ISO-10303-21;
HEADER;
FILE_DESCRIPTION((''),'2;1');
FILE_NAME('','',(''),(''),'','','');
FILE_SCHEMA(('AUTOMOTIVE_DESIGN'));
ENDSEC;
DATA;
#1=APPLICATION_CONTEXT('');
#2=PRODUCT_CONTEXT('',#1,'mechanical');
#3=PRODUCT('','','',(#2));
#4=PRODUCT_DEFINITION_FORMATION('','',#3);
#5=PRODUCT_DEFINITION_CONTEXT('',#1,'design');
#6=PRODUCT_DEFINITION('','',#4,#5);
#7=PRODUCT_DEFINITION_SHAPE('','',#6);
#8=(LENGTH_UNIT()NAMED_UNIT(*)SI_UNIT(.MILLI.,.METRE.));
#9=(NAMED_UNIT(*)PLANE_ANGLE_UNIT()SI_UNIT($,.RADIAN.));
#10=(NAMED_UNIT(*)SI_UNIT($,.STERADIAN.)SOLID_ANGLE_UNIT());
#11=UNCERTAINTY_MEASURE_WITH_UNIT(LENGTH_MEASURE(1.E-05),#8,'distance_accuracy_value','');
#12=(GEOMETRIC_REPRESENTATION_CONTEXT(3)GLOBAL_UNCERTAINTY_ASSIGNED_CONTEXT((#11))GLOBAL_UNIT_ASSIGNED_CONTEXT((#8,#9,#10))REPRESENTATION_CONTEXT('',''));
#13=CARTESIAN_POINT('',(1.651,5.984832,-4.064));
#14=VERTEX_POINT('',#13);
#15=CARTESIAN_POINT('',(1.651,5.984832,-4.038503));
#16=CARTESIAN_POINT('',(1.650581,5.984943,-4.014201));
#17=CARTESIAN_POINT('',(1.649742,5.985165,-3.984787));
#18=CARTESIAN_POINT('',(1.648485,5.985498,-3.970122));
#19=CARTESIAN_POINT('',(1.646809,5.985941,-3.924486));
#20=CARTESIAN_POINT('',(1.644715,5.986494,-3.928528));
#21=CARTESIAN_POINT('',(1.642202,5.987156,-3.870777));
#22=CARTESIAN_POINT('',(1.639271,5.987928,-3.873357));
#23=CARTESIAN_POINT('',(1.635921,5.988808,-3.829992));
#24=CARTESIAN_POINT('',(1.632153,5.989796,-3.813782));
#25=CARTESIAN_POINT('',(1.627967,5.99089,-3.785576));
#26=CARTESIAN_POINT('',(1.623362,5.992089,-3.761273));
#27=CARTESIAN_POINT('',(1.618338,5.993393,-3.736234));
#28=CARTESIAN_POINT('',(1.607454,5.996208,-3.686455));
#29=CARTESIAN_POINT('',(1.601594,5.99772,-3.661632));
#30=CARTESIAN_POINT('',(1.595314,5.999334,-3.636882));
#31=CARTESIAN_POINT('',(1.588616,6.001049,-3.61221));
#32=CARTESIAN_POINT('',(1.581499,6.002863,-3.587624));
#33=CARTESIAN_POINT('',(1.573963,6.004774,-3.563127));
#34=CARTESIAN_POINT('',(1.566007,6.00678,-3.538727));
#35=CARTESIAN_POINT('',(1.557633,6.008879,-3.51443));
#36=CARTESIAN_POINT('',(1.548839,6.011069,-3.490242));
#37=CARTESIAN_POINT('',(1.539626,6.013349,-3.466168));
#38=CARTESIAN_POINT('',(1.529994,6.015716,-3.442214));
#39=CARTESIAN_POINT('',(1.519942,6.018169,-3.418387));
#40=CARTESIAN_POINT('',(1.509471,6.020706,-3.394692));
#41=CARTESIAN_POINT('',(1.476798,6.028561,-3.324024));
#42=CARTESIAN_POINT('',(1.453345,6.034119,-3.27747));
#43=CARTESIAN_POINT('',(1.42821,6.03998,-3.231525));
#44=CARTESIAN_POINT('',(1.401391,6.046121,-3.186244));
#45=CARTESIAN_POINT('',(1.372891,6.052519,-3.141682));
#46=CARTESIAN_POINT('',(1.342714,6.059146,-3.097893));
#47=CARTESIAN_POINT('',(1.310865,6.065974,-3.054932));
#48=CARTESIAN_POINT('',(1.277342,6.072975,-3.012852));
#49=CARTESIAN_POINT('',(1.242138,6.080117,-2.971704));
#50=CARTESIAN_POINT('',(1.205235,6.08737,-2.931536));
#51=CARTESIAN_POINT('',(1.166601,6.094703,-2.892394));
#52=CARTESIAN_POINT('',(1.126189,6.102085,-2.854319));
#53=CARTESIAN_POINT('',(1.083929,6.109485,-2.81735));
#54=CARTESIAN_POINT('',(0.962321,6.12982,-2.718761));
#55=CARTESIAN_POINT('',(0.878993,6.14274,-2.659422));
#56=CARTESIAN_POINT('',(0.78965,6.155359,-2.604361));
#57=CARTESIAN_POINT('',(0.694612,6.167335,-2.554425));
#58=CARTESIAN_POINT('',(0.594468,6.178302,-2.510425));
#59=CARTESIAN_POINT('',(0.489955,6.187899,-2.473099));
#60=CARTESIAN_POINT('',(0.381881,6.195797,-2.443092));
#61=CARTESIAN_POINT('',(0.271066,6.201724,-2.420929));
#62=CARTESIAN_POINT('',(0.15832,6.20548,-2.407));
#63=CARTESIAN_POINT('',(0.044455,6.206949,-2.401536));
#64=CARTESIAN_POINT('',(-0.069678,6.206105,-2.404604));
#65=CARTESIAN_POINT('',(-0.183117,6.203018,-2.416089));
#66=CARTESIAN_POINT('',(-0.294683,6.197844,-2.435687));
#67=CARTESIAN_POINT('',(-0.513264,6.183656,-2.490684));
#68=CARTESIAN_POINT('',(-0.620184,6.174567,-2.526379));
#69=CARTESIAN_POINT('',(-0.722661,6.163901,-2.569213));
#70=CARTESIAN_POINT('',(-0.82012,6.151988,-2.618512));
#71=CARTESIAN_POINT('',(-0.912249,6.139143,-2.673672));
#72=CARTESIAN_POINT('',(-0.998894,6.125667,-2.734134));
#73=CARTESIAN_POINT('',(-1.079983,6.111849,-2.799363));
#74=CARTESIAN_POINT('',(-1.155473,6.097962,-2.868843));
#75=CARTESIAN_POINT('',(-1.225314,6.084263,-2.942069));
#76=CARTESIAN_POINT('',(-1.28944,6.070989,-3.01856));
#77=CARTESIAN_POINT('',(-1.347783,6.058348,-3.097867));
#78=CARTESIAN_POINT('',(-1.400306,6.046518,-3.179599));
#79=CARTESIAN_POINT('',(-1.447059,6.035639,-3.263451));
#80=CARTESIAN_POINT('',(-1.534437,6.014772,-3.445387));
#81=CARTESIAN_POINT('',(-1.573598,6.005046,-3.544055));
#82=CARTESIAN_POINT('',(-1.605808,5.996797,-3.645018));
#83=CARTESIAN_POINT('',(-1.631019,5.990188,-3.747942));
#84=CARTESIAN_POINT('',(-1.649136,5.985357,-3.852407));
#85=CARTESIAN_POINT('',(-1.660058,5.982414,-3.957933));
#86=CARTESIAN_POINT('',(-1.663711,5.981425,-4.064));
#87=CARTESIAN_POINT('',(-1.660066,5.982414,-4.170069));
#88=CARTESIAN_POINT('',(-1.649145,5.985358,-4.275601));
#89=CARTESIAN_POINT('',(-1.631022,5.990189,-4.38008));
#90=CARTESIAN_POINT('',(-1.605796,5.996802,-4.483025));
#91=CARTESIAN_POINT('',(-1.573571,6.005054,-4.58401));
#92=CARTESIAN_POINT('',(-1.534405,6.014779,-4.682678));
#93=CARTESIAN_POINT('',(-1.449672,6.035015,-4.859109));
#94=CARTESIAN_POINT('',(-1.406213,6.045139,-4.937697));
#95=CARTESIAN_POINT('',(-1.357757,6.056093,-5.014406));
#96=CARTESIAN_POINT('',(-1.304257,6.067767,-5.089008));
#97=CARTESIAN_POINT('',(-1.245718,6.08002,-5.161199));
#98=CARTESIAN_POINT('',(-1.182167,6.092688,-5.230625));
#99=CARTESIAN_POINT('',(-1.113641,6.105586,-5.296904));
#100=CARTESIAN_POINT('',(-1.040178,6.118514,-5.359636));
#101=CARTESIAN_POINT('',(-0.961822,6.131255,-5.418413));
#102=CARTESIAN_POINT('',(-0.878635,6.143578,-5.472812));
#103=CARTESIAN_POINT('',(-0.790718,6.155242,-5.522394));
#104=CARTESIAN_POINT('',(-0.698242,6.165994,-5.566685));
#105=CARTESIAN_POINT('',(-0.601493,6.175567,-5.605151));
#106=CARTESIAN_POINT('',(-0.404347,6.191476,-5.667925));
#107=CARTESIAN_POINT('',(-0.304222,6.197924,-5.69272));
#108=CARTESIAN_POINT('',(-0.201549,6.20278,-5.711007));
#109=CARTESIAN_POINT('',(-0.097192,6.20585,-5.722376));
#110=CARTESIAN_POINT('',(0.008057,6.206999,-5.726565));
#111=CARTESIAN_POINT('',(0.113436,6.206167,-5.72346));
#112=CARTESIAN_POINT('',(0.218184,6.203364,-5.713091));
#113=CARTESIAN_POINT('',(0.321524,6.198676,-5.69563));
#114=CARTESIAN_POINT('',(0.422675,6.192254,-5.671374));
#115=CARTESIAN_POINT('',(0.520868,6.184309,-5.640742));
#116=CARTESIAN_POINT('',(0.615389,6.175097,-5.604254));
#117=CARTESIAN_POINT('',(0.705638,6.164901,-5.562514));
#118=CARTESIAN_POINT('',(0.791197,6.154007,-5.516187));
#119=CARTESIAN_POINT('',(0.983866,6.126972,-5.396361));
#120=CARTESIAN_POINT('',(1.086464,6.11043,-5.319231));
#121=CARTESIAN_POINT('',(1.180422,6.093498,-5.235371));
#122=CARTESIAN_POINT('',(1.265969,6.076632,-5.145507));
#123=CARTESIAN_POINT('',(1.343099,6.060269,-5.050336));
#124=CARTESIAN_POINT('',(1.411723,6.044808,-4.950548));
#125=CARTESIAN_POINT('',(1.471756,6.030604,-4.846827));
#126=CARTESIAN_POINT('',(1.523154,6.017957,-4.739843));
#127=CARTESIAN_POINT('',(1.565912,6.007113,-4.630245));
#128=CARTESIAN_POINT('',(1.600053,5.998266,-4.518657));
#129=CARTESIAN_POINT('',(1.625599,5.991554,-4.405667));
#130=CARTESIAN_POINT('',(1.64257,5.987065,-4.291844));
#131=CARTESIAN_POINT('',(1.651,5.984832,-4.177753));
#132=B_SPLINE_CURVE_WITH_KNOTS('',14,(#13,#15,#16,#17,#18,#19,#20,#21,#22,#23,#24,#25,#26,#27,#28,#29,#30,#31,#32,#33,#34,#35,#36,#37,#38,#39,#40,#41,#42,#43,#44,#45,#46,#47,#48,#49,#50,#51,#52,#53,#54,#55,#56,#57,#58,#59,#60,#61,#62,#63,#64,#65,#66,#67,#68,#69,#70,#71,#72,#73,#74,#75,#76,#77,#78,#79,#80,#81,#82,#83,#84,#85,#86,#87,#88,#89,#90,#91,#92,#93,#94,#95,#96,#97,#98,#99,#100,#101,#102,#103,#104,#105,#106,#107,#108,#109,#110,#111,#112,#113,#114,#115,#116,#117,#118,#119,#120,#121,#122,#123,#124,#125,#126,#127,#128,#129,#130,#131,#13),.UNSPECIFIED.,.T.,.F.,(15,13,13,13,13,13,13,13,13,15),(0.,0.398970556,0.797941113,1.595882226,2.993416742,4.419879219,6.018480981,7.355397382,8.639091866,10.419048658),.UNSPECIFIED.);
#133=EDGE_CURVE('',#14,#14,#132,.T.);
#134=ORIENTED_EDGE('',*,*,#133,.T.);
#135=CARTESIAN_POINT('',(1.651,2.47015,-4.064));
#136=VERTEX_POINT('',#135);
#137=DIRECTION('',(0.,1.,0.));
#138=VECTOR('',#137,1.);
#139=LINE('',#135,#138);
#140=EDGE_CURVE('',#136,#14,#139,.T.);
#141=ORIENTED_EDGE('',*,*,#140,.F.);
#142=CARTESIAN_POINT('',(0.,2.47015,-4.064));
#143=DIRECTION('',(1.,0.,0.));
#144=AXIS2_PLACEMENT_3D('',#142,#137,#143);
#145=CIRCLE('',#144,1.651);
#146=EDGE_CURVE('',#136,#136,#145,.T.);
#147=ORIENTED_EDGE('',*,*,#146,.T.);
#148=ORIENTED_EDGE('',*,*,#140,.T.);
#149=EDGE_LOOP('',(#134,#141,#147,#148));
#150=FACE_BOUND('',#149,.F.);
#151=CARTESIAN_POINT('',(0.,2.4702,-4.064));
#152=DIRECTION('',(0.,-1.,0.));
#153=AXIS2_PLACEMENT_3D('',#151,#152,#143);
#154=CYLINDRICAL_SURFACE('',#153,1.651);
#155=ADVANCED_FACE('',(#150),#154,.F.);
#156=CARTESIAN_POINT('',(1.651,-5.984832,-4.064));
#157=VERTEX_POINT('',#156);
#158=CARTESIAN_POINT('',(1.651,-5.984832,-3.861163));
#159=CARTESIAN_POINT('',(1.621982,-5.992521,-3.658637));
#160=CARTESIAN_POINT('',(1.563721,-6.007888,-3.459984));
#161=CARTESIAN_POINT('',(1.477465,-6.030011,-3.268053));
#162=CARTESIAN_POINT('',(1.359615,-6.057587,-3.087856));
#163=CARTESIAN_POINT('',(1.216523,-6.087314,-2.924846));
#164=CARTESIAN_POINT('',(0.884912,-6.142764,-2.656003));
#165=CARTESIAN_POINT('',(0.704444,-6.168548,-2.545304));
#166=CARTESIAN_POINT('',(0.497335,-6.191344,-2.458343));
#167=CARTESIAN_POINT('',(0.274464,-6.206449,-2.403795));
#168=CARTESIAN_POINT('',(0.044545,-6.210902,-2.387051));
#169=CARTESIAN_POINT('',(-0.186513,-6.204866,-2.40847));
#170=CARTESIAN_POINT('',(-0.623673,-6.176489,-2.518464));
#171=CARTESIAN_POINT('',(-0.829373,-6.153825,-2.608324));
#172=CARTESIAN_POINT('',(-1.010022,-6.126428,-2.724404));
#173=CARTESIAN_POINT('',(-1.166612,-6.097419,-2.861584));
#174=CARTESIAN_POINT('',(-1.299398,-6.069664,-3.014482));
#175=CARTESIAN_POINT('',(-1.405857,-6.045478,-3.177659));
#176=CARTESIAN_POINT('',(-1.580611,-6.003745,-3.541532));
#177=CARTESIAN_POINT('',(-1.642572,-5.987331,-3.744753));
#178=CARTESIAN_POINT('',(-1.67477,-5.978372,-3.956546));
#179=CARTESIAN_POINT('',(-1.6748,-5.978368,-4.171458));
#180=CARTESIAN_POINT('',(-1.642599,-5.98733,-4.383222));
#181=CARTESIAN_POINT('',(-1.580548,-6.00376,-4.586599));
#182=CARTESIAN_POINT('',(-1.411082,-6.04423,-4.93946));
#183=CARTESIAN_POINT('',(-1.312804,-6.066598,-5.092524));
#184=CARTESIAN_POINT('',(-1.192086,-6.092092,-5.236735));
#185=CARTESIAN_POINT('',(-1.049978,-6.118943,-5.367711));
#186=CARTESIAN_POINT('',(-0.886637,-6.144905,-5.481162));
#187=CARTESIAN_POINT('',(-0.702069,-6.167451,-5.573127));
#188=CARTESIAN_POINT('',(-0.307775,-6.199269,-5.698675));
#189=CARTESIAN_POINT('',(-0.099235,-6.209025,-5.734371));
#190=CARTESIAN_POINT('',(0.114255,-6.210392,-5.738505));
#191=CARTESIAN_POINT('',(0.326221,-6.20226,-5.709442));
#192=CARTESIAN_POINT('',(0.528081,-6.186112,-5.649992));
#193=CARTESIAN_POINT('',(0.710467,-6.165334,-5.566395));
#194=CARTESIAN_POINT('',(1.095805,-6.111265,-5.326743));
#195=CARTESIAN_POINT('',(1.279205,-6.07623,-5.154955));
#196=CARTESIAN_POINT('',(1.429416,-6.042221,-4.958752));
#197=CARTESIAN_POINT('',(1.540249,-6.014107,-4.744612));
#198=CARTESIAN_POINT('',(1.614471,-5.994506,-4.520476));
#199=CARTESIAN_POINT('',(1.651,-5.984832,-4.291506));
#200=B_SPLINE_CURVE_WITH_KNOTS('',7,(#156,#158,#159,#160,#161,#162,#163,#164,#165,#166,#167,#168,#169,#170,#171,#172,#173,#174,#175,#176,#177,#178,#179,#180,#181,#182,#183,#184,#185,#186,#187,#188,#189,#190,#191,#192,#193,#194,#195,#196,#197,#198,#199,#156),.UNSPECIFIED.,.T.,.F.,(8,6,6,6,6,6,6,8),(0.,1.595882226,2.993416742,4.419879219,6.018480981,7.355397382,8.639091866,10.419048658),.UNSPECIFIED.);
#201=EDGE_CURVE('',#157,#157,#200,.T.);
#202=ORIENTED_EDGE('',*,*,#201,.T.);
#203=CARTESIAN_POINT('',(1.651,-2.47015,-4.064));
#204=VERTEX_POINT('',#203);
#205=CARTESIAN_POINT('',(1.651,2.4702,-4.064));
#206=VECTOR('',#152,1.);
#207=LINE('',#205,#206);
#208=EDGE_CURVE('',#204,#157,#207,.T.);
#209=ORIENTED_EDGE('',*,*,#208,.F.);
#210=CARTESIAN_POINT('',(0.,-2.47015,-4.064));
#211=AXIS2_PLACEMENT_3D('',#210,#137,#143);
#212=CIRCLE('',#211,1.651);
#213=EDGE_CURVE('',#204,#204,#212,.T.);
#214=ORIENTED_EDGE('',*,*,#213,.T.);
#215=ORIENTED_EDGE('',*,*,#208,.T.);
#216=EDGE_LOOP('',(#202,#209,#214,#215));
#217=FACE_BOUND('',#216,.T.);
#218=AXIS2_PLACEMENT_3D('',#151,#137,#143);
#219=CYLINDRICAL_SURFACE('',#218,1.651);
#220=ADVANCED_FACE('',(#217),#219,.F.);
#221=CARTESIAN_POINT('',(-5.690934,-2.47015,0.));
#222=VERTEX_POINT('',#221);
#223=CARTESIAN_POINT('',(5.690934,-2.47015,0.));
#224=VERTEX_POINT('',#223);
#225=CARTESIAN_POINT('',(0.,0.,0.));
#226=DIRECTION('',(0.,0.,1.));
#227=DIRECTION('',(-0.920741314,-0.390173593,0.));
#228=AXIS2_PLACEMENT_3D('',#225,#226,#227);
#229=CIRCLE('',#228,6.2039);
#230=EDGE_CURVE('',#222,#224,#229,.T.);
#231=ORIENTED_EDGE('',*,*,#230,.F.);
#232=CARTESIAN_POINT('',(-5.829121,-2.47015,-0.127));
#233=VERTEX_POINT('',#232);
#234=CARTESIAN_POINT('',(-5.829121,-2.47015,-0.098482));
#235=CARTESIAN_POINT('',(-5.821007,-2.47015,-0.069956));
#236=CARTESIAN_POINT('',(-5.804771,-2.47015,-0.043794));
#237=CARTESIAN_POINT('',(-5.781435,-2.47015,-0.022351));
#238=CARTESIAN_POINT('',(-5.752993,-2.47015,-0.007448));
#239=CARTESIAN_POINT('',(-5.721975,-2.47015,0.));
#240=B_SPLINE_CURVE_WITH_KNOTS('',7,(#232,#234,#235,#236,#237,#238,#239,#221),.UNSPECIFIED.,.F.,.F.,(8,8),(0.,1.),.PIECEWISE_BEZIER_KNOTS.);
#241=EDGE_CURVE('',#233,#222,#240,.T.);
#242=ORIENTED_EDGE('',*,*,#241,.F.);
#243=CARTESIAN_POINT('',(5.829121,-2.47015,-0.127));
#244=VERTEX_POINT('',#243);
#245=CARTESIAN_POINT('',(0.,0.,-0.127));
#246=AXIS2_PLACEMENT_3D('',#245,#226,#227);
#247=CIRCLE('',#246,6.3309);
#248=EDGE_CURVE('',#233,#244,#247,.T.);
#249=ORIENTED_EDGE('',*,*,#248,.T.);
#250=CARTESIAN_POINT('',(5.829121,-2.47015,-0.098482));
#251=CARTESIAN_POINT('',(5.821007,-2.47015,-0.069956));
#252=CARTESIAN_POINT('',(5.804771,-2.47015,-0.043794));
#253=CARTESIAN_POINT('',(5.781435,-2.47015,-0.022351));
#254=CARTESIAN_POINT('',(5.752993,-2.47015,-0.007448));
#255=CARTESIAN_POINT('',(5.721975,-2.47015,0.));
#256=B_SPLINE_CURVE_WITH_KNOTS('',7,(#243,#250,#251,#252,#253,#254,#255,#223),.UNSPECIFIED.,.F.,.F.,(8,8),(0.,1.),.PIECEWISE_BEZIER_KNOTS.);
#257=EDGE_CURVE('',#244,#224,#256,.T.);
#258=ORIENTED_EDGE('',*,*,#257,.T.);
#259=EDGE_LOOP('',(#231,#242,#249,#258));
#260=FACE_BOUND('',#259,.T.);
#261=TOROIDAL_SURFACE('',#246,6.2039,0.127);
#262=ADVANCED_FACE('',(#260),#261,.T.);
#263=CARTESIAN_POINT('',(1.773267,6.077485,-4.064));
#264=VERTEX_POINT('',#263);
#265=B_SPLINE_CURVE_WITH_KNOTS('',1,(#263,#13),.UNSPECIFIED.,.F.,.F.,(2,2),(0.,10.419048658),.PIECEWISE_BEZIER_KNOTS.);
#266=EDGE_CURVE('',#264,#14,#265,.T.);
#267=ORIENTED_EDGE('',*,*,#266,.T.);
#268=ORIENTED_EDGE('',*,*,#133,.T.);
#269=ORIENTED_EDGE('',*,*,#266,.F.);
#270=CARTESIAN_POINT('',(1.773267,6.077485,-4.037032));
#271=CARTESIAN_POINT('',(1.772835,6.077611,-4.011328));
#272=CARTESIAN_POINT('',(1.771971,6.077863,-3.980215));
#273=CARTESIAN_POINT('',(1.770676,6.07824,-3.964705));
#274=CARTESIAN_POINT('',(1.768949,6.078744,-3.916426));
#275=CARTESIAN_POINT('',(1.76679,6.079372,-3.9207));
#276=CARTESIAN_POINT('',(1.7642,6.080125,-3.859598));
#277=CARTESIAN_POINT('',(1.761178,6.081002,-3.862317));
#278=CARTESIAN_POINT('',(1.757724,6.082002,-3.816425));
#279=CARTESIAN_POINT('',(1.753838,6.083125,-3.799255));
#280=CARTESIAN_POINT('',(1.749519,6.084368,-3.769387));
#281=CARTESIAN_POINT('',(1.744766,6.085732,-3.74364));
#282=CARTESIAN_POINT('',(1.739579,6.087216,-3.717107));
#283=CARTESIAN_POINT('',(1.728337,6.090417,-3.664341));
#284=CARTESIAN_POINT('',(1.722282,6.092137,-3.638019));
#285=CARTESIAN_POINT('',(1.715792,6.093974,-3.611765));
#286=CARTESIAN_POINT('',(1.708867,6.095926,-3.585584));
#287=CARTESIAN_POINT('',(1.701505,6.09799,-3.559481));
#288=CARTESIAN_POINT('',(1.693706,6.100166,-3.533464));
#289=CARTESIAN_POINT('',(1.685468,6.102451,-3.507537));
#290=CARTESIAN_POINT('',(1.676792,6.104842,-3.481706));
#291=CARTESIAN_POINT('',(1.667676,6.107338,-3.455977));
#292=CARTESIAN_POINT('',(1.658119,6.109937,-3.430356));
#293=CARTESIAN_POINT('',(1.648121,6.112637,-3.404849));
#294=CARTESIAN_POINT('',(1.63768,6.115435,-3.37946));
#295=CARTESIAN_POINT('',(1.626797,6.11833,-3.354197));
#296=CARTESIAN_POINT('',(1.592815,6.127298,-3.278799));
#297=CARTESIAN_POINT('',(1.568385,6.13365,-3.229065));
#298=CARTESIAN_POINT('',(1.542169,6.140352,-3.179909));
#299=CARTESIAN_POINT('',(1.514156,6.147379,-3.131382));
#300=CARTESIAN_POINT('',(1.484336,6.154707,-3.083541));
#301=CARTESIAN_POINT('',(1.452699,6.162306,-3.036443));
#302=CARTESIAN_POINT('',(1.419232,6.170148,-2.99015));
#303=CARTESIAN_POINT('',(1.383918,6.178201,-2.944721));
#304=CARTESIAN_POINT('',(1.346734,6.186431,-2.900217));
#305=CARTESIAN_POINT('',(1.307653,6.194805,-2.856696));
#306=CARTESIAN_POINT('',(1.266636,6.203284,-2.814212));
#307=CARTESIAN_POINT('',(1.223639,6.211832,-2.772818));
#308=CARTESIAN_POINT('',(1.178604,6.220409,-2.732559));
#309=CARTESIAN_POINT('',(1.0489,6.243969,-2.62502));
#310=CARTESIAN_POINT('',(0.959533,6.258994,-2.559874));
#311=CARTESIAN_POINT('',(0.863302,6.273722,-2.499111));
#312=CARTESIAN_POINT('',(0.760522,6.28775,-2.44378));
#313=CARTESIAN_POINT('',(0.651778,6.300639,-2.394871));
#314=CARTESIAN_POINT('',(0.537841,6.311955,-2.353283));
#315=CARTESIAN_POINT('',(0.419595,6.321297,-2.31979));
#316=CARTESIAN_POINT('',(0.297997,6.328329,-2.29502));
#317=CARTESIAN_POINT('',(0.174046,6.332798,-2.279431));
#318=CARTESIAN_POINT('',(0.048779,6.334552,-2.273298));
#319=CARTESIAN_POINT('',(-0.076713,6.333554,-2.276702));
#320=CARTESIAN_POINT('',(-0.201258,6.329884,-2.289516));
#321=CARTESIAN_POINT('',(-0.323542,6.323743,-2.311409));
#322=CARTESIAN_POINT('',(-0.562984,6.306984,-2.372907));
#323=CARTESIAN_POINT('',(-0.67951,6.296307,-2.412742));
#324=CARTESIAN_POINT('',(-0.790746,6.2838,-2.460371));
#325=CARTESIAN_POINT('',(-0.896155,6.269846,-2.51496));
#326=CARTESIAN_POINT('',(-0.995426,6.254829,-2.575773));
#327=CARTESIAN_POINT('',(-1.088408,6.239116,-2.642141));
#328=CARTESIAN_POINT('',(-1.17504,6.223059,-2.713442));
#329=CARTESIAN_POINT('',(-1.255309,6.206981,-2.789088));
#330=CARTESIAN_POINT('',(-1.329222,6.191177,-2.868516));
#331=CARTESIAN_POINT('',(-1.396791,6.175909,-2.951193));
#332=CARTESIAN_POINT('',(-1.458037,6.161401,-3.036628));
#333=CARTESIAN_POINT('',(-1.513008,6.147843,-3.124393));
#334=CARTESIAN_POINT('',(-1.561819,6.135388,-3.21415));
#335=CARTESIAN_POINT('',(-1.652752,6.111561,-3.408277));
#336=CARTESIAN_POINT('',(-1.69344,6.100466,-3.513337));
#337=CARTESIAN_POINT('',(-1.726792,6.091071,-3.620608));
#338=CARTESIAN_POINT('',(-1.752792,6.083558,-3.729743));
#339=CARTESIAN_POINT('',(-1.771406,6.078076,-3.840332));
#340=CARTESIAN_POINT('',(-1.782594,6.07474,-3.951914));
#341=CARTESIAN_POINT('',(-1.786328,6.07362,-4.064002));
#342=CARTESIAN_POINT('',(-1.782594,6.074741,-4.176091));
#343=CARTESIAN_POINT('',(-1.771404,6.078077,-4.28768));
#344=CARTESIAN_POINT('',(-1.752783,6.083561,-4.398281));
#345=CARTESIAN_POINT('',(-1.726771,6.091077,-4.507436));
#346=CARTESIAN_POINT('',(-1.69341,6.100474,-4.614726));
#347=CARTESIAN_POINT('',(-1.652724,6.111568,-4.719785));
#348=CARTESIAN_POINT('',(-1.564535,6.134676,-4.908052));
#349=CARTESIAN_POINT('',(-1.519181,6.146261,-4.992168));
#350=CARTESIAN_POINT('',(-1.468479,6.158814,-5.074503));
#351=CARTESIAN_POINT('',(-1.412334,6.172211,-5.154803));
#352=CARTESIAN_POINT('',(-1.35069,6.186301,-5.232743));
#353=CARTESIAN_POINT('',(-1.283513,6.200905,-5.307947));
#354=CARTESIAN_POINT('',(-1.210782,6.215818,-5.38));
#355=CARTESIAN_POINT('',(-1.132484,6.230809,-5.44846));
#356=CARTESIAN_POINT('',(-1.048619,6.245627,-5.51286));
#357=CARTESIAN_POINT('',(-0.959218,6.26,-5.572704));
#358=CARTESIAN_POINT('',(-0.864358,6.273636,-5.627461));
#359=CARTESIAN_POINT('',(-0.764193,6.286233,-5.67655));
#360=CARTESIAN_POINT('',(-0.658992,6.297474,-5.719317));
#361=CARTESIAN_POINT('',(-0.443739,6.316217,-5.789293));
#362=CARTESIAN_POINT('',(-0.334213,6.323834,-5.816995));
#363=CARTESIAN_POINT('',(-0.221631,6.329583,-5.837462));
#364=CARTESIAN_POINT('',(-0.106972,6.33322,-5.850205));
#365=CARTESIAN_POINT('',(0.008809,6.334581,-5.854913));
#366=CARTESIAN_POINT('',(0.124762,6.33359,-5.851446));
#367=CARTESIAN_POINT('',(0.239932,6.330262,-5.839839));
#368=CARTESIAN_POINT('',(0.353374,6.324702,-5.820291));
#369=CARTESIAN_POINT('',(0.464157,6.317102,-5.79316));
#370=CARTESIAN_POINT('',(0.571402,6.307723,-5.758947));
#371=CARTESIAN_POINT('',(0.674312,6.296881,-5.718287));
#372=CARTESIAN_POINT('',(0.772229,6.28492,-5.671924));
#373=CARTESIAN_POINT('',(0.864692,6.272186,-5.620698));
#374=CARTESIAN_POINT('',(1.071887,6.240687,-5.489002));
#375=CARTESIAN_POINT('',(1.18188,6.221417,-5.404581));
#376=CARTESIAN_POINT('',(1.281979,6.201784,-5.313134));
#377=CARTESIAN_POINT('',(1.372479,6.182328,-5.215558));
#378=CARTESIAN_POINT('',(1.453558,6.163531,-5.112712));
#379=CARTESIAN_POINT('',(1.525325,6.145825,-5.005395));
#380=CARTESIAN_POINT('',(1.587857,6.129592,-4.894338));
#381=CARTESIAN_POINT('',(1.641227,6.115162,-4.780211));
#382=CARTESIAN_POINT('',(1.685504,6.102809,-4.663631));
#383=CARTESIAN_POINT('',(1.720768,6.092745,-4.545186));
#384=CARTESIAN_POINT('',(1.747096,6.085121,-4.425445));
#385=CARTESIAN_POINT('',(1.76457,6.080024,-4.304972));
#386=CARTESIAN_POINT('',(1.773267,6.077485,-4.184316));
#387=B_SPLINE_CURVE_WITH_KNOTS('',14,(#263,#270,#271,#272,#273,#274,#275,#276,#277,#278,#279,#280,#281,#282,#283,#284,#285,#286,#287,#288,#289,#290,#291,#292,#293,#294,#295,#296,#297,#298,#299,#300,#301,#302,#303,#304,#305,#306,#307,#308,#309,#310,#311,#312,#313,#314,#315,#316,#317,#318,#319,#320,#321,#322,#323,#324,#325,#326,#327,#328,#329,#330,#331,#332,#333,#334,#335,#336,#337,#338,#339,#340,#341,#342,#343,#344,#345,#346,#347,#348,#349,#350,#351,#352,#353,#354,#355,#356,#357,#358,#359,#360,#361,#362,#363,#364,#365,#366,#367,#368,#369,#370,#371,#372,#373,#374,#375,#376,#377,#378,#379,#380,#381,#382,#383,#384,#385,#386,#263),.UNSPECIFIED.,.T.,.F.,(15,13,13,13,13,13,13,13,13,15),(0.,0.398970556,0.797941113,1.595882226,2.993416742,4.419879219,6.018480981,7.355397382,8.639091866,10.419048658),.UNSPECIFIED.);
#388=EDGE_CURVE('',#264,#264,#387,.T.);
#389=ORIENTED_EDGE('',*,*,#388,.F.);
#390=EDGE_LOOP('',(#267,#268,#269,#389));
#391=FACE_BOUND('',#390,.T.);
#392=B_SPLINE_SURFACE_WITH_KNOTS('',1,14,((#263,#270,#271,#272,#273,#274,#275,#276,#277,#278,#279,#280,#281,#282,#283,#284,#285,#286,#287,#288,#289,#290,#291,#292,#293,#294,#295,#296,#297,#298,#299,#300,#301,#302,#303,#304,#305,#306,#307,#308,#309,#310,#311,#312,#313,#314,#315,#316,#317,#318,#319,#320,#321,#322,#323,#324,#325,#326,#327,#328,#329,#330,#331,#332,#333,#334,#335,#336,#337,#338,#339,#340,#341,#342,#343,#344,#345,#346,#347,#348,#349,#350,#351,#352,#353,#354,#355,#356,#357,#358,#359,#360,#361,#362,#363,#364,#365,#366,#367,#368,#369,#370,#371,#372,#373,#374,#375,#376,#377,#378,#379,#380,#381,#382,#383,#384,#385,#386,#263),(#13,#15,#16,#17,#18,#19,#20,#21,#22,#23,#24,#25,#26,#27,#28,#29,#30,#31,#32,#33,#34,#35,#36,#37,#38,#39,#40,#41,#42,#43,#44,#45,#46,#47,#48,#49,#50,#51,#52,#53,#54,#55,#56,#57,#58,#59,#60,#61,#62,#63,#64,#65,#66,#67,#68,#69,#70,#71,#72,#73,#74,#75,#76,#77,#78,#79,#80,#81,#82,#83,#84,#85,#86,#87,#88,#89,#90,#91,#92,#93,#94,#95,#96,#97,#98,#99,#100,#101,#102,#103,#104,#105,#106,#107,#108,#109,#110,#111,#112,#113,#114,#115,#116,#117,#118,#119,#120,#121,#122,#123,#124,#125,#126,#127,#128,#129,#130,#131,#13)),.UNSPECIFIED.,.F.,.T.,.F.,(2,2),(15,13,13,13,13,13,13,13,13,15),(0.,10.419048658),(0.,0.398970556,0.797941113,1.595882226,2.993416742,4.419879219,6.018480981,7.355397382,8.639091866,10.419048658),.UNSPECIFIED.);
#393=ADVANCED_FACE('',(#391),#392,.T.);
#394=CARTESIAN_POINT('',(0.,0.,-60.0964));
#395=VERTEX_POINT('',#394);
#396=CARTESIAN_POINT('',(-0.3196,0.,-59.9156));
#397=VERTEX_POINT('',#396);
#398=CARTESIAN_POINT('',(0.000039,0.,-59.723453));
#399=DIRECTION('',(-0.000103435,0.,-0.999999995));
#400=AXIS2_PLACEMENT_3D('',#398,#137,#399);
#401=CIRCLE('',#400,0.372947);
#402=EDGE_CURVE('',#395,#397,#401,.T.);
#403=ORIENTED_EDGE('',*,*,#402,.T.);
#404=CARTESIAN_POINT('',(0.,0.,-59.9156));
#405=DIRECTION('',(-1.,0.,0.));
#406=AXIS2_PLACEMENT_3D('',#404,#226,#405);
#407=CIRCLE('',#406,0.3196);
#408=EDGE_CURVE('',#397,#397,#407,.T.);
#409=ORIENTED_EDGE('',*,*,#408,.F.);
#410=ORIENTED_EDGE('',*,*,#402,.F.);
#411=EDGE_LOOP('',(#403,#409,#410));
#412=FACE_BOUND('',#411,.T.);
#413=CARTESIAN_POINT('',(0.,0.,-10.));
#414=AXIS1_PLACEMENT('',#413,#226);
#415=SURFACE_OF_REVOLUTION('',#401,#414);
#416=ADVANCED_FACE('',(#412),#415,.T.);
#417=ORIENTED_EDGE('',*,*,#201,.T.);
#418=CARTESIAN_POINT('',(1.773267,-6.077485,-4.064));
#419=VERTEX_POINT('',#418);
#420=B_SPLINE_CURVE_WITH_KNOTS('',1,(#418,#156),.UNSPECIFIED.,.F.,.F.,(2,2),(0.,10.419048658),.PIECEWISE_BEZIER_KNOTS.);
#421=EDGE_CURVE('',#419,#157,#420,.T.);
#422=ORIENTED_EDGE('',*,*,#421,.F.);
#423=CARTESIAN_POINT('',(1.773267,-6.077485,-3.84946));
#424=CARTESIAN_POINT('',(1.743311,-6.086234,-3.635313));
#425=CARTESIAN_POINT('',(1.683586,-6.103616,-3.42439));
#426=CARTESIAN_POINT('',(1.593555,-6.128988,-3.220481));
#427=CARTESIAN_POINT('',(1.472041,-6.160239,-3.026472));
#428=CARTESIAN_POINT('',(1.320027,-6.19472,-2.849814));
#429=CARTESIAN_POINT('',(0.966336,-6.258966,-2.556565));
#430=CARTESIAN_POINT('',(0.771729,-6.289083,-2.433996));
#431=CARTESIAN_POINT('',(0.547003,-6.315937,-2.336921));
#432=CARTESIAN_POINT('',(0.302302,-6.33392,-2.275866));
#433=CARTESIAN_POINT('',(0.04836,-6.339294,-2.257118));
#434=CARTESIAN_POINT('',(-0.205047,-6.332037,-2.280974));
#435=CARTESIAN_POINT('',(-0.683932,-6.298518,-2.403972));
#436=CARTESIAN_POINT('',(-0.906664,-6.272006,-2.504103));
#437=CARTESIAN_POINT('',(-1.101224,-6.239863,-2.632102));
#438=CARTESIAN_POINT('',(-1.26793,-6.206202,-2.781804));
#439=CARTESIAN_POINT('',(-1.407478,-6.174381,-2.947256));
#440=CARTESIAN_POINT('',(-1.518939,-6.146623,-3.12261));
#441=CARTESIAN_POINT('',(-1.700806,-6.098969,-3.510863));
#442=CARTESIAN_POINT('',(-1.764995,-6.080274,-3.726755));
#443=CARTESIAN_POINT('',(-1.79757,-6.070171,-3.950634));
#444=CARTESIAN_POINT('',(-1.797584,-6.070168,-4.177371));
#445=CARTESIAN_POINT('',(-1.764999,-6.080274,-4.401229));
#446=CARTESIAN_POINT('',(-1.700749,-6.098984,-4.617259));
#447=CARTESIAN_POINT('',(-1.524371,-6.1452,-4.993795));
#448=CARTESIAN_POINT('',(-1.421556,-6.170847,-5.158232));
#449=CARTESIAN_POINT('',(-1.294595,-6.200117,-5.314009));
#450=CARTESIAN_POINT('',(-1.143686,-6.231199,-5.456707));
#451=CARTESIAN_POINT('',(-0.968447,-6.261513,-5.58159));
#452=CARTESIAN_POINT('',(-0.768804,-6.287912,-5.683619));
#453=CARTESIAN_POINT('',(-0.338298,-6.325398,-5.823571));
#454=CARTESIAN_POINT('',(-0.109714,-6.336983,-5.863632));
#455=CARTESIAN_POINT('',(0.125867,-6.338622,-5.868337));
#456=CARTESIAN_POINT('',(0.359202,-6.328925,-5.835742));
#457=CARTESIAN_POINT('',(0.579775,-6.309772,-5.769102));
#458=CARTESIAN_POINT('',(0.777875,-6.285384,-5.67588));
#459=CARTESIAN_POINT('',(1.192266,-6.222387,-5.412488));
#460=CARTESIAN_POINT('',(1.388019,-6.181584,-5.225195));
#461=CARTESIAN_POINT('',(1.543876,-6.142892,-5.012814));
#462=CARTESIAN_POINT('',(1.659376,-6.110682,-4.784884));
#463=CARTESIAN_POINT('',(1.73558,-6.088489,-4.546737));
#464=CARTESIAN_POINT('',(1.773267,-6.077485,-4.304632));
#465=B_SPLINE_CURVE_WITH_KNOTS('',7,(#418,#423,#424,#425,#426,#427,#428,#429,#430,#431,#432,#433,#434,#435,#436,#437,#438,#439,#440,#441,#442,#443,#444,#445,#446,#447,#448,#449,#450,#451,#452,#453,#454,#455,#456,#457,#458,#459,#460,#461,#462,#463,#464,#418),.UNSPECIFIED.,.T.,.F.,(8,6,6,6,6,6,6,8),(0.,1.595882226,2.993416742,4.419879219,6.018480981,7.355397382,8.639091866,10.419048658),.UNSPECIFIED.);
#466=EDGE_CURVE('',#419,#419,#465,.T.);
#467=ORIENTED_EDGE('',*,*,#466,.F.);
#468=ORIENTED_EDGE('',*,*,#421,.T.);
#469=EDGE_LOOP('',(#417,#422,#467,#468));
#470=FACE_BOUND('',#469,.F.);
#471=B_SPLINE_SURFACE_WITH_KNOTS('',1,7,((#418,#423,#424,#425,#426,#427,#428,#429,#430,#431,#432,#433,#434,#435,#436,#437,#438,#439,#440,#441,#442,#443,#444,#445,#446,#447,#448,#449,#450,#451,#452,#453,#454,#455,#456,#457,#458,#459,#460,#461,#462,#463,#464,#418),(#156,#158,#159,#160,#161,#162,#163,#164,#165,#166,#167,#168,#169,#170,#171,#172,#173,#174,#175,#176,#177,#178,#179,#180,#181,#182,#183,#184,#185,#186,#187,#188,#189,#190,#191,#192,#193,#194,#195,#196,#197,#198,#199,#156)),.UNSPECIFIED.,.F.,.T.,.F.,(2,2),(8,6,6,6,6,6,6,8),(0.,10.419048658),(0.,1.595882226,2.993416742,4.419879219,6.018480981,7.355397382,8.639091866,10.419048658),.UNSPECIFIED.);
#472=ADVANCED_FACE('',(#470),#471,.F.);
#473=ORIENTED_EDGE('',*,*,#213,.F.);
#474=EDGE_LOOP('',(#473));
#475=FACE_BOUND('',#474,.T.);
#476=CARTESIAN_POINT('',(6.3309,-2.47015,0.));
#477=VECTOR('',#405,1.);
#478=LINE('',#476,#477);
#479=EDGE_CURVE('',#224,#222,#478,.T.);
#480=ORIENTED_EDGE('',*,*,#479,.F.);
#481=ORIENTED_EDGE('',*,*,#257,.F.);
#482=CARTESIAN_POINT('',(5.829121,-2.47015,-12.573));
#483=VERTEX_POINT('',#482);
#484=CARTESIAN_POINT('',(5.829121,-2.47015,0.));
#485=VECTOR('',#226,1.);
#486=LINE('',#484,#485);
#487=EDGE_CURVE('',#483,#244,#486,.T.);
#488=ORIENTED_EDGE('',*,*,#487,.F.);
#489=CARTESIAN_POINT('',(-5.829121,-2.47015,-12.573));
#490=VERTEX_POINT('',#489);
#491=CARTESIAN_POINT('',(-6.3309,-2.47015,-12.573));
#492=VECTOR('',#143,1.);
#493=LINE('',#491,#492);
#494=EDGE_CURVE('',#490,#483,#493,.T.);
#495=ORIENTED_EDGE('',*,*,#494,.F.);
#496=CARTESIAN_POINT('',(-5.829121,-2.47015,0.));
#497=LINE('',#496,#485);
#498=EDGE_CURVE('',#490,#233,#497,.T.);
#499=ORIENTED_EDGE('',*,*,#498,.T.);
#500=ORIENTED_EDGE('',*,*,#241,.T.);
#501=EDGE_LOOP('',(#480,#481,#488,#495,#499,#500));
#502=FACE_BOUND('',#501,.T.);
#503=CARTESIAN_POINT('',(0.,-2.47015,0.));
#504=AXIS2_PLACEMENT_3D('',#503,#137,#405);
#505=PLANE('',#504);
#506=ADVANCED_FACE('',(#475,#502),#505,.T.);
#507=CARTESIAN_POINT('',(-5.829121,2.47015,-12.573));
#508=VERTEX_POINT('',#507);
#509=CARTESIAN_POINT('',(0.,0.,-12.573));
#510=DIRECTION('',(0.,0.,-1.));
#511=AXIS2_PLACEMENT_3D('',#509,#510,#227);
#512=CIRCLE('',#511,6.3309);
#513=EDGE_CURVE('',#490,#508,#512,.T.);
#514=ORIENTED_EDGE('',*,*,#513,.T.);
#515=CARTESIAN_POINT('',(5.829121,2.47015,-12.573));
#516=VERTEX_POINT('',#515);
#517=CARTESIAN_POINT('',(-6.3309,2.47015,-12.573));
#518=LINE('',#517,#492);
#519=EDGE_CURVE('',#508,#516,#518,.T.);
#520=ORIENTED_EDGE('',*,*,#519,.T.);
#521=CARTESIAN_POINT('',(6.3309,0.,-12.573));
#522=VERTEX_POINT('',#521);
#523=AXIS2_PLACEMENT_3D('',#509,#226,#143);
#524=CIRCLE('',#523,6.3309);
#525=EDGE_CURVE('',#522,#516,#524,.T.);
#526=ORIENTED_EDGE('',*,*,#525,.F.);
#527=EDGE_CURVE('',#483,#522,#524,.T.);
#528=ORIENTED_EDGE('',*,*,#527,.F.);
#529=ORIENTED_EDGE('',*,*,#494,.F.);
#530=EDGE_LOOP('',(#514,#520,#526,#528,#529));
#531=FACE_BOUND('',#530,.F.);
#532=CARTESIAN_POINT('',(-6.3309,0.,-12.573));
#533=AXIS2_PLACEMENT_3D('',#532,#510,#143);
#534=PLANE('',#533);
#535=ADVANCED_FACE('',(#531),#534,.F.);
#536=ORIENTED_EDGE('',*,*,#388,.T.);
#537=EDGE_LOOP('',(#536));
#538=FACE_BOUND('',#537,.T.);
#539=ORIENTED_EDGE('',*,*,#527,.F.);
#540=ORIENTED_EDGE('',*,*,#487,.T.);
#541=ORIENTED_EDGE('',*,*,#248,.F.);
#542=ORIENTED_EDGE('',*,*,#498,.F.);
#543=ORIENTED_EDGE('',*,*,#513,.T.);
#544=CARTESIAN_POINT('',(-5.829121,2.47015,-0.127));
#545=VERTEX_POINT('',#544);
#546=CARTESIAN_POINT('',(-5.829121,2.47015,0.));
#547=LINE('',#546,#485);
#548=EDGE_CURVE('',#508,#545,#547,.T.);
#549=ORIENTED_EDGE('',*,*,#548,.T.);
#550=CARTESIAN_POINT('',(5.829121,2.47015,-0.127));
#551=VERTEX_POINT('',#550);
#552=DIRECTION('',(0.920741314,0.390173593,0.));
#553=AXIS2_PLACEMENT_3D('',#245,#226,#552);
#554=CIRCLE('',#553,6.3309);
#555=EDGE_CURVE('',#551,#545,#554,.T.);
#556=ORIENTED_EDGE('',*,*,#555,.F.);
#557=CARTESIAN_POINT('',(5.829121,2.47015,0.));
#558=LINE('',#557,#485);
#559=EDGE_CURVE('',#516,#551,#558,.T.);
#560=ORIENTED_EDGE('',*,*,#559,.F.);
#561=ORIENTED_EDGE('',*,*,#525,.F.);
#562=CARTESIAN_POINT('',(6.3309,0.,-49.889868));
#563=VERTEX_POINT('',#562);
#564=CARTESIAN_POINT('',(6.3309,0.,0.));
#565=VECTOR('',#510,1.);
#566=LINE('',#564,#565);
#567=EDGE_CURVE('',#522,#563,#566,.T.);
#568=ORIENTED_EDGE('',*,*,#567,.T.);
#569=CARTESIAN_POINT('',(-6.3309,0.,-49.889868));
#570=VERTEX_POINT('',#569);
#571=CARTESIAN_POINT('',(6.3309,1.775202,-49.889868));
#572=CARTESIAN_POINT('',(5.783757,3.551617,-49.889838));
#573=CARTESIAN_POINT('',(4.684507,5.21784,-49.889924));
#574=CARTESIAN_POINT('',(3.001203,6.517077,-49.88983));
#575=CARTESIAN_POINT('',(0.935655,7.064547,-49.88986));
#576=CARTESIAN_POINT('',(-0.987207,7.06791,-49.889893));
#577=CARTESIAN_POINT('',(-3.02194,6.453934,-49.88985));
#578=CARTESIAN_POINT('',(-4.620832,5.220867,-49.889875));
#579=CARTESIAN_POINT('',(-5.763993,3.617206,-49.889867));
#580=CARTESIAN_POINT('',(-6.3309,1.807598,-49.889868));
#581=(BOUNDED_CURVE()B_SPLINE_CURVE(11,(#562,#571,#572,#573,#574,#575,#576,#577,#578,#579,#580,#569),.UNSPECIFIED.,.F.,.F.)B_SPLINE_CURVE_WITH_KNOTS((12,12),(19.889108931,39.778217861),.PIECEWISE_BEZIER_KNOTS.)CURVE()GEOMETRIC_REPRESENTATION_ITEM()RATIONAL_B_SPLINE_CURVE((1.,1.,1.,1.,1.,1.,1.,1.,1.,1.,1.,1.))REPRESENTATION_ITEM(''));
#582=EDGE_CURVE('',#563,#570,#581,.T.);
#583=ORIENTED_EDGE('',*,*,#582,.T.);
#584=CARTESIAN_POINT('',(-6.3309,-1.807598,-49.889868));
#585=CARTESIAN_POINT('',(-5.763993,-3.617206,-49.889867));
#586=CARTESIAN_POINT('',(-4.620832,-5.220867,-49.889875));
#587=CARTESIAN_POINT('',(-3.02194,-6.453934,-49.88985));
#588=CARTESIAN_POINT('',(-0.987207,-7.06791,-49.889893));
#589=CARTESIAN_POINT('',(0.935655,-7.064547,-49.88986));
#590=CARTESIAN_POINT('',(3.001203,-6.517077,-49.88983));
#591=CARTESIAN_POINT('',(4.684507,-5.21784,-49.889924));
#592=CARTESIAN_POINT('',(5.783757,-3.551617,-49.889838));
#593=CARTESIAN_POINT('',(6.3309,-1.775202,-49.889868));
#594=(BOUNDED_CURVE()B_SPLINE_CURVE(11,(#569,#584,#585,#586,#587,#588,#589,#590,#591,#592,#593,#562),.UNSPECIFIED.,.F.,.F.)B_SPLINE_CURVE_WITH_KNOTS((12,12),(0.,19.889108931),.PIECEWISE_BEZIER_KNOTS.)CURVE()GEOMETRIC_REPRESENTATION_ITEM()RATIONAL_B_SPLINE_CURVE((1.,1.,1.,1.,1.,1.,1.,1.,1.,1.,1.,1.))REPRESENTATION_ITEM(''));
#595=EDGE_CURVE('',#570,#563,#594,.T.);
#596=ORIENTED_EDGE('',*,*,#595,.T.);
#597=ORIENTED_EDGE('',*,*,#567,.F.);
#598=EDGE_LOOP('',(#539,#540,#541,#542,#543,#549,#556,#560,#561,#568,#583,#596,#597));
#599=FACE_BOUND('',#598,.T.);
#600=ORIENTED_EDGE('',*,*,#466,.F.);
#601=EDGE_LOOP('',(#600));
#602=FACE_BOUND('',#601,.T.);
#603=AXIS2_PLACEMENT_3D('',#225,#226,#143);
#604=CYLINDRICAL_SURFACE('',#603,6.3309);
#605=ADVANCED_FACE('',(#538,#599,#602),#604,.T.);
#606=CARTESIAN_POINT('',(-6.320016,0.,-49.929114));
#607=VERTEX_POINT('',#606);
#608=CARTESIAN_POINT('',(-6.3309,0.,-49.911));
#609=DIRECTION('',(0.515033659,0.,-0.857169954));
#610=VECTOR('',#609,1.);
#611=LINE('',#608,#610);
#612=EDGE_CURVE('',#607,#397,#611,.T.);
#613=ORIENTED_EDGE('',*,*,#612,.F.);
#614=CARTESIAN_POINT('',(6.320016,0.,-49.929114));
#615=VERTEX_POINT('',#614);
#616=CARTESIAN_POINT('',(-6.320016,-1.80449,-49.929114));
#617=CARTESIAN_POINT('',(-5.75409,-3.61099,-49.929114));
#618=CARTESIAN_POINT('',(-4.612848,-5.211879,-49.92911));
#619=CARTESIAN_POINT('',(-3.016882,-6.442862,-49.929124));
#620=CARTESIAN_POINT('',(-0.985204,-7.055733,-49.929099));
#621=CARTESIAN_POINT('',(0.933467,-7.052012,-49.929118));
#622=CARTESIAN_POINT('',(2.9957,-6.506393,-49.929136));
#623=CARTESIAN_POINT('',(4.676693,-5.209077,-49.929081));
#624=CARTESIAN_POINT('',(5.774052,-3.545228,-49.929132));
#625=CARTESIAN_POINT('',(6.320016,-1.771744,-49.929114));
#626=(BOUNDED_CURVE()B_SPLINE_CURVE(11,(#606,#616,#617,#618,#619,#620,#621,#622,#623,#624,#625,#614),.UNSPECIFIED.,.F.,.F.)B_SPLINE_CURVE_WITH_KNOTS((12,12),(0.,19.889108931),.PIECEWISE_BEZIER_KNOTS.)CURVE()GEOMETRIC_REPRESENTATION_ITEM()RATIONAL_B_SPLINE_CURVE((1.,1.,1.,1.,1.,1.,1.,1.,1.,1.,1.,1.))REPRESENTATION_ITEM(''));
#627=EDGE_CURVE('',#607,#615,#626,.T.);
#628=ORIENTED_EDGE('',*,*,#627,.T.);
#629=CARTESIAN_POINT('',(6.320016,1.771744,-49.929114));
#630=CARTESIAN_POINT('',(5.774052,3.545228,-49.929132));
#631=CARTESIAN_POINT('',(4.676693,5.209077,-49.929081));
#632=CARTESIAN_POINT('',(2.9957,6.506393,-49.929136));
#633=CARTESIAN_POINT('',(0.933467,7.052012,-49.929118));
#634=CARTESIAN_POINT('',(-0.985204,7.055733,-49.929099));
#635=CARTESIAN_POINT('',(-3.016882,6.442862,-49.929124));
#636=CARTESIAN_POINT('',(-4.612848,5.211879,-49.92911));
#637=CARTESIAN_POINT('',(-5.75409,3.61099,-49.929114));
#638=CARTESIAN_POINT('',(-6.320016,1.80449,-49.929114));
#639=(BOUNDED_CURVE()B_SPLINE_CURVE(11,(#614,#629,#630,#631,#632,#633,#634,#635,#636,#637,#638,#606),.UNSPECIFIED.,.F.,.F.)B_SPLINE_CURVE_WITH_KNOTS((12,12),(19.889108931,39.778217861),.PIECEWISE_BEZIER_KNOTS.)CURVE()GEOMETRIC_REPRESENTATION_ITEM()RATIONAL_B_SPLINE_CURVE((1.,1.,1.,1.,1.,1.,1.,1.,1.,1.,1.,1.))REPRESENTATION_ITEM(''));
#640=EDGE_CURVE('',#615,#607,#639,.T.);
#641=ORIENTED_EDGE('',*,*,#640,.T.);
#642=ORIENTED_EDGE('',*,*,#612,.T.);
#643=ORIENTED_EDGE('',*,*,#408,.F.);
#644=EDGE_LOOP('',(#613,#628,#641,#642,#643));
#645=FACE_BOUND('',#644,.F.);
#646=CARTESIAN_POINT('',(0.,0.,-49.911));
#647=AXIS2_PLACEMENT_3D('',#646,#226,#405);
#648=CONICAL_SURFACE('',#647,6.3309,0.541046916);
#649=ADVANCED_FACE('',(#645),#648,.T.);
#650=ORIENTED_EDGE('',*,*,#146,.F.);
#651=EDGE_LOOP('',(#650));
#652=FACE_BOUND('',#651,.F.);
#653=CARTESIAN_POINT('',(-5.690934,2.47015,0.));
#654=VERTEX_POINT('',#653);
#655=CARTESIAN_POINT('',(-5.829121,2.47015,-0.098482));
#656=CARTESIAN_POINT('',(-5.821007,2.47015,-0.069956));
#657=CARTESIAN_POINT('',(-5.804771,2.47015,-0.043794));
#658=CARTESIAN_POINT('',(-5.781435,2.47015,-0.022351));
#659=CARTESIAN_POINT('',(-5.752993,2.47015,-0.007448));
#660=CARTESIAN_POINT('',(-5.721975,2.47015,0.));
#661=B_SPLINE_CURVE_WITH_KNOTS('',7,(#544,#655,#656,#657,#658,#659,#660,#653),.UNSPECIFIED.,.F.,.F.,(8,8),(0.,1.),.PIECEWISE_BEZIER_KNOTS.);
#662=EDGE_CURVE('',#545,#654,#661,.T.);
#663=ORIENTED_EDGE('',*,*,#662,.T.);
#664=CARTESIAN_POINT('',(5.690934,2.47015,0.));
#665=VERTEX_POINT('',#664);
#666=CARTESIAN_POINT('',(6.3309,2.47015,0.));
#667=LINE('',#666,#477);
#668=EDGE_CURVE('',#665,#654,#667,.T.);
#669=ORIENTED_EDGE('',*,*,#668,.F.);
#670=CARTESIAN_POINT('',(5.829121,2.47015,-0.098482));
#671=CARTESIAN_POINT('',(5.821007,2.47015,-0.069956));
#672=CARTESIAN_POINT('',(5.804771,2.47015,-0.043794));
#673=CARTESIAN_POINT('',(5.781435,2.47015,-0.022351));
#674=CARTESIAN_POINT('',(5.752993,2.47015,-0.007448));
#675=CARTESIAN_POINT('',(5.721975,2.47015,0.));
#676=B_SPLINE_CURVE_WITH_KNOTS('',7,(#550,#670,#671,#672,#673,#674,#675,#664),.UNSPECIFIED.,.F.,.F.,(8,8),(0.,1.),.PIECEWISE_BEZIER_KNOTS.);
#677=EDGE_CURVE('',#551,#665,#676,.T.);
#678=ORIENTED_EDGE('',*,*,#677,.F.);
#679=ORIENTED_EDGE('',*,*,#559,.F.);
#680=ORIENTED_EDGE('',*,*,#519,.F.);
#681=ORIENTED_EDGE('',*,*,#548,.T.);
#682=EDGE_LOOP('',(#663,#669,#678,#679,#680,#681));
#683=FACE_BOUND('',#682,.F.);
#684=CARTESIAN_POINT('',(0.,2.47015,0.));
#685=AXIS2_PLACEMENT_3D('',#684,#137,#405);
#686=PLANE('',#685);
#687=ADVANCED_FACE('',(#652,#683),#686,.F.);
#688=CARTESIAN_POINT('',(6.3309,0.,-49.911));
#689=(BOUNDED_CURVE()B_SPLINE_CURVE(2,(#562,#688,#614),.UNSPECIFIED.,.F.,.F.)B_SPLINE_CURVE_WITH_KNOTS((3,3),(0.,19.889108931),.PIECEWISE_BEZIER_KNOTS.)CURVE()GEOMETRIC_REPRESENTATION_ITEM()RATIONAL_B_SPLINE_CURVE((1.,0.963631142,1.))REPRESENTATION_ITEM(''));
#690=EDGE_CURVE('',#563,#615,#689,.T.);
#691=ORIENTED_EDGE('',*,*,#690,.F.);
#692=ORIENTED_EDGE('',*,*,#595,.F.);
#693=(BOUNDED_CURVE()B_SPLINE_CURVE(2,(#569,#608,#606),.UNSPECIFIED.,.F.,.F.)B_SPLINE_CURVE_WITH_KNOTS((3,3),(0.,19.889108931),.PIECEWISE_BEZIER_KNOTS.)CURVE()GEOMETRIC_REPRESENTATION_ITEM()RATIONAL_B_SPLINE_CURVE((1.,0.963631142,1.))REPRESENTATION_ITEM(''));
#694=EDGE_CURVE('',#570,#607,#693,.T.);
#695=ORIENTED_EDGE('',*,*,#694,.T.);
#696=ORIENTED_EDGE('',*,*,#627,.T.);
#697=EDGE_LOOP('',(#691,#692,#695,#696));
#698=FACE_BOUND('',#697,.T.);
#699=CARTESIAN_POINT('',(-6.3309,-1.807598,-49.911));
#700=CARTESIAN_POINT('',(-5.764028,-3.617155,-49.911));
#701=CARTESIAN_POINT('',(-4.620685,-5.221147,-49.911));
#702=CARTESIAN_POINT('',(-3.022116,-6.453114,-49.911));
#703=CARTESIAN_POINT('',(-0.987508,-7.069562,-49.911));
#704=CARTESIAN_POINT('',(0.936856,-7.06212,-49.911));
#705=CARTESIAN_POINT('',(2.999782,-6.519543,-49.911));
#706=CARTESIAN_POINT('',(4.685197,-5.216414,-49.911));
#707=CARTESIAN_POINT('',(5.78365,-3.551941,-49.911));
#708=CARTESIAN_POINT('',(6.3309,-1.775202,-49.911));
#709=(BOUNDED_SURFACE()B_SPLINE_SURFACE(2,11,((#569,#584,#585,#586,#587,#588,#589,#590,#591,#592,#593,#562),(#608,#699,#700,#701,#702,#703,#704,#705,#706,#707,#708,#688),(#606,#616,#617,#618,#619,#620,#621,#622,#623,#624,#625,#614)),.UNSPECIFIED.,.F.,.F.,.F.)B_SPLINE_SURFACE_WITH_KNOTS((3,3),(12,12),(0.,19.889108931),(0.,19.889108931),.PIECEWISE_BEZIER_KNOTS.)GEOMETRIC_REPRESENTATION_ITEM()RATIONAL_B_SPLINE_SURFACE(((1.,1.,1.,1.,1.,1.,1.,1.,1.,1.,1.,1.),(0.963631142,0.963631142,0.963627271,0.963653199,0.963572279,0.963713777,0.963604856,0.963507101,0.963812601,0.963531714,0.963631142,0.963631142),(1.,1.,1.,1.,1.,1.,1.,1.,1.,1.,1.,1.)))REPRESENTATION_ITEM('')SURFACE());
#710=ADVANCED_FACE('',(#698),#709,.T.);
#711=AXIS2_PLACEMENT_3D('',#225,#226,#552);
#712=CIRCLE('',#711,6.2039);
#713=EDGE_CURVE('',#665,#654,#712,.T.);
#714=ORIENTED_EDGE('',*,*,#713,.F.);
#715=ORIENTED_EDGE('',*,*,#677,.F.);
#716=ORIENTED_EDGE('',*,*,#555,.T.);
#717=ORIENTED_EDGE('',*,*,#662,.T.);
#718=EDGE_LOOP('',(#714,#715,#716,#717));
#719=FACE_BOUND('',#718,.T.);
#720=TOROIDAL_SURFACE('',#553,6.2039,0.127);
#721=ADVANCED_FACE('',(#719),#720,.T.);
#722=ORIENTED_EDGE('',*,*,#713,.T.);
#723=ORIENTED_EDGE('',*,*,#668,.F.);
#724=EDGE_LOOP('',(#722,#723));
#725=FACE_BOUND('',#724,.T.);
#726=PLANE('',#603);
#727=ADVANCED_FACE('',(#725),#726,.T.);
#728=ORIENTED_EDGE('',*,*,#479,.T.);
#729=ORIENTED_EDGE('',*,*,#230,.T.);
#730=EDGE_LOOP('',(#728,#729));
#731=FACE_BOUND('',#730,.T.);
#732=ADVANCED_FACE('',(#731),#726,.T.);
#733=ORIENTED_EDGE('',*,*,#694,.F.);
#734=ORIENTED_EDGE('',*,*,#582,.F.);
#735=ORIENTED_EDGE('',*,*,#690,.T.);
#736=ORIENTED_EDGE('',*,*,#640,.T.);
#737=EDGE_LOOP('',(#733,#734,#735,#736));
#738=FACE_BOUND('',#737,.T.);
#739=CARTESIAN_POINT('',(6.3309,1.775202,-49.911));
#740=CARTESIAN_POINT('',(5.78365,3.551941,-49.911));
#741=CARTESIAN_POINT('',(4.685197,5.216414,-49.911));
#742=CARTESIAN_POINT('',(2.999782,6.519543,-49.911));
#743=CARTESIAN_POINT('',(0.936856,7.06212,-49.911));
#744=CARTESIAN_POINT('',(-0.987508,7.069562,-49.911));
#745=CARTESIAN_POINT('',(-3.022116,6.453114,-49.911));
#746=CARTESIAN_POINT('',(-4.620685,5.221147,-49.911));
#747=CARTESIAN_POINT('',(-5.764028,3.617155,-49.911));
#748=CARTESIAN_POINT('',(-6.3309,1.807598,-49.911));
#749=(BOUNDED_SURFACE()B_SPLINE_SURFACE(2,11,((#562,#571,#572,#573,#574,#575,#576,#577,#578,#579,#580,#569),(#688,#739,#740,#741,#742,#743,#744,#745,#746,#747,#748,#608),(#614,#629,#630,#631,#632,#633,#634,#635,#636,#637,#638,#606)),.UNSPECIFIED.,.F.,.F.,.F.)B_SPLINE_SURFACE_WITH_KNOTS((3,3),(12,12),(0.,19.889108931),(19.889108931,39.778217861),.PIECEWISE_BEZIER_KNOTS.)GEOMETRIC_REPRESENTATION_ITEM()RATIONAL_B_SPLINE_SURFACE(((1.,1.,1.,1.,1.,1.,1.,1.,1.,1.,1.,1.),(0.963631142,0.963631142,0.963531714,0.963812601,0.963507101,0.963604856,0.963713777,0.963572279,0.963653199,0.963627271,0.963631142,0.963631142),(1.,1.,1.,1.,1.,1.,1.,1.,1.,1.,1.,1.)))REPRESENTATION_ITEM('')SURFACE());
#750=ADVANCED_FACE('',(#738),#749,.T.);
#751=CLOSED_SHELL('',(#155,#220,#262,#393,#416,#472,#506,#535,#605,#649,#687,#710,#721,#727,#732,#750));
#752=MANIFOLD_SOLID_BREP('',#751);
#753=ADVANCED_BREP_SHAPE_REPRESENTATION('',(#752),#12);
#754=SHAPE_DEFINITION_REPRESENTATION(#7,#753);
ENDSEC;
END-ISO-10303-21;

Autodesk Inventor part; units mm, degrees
ref_plane "YZ Plane" through (0, 0, 0) normal (1, 0, 0) x (0, 1, 0)
ref_plane "XZ Plane" through (0, 0, 0) normal (0, 1, 0) x (-1, 0, 0)
ref_plane "XY Plane" through (0, 0, 0) normal (0, 0, 1) x (1, 0, 0)
sketch "Sketch1" plane through (0, 0, 0) normal (0, 0, 1) x (1, 0, 0)
  circle A0 centre (0, 0) radius 6.3309
  dimension "d0" = 12.6619
extrude "Extrusion1" add sketch "Sketch1" against normal blind 60.0964
sketch "Sketch2" plane through (0, 0, 0) normal (0, 1, 0) x (-1, 0, 0)
  line L0 (-6.3309, -60.0964) -> (-6.3309, 0) projected
  line L1 (-6.3309, 0) -> (6.3309, 0) projected
  line L2 (6.3309, 0) -> (6.3309, -60.0964) projected
  line L3 (6.3309, -60.0964) -> (-6.3309, -60.0964) projected
  line L4 (6.3309, -12.573) -> (-6.3309, -12.573)
  point P0 (0, 0)
  dimension "d3" = 12.573
extrude "Extrusion2" cut sketch "Sketch2" along normal mid plane 4.9403 contours L0 L1 L2 L4
sketch "Sketch3" plane through (0, 2.4702, 0) normal (0, -1, 0) x (1, 0, 0)
  line L0 (-5.8292, 0) -> (5.8292, 0) construction
  line L1 (5.8292, 0) -> (5.8292, -12.573) construction
  line L2 (-5.8292, -12.573) -> (5.8292, -12.573) construction
  line L3 (-5.8292, -60.0964) -> (-5.8292, -12.573) construction
  line L4 (5.8292, -60.0964) -> (-5.8292, -60.0964) construction
  line L5 (5.8292, -12.573) -> (5.8292, -60.0964) construction
  line L6 (-5.8292, -12.573) -> (-5.8292, 0) construction
  line L7 (0, 0) -> (0, -12.573) construction
  circle A0 centre (0, -4.064) radius 1.651
  dimension "d6" = 3.302
  dimension "d7" = 4.064
extrude "Extrusion3" cut sketch "Sketch3" along normal through all both and the other way through all
sketch "Sketch4" plane through (0, 0, 0) normal (0, 1, 0) x (-1, 0, 0)
  line L0 (-6.3309, -12.573) -> (6.3309, -12.573) projected
  line L1 (6.3309, -12.573) -> (6.3309, -60.0964) projected
  line L2 (6.3309, -60.0964) -> (-6.3309, -60.0964) projected
  line L3 (-6.3309, -60.0964) -> (-6.3309, -12.573) projected
  line L4 (0, -60.0964) -> (0, -48.5629) construction
  line L5 (6.3309, -49.911) -> (0.3196, -59.9156)
  arc A0 (0, -60.0964) -> (0.3196, -59.9156) centre (0, -59.7236) ccw
  line L6 (0, -72.1662) -> (0, 12.0277) projected
  point P0 (0, 0)
  dimension "d10" = 10.1854
  dimension "d11" = 31
revolve "Revolution1" cut sketch "Sketch4" angle 360 about axis through (0, 0, -10) along (0, 0, 1) contours A0 L5 L1 L2
fillet "Fillet1" radius 0.0762 2 edges at (0, -6.3309, -49.911) (0, 6.3309, -49.911)
fillet "Fillet2" radius 0.127 2 edges at (0, -6.3309, 0) (0, 6.3309, 0)
chamfer "Chamfer1" distance 0.127 angle 45 2 edges at (-1.651, -6.1119, -4.0553) (-1.651, 6.1119, -4.0553)
properties part number "solenoid pin"
